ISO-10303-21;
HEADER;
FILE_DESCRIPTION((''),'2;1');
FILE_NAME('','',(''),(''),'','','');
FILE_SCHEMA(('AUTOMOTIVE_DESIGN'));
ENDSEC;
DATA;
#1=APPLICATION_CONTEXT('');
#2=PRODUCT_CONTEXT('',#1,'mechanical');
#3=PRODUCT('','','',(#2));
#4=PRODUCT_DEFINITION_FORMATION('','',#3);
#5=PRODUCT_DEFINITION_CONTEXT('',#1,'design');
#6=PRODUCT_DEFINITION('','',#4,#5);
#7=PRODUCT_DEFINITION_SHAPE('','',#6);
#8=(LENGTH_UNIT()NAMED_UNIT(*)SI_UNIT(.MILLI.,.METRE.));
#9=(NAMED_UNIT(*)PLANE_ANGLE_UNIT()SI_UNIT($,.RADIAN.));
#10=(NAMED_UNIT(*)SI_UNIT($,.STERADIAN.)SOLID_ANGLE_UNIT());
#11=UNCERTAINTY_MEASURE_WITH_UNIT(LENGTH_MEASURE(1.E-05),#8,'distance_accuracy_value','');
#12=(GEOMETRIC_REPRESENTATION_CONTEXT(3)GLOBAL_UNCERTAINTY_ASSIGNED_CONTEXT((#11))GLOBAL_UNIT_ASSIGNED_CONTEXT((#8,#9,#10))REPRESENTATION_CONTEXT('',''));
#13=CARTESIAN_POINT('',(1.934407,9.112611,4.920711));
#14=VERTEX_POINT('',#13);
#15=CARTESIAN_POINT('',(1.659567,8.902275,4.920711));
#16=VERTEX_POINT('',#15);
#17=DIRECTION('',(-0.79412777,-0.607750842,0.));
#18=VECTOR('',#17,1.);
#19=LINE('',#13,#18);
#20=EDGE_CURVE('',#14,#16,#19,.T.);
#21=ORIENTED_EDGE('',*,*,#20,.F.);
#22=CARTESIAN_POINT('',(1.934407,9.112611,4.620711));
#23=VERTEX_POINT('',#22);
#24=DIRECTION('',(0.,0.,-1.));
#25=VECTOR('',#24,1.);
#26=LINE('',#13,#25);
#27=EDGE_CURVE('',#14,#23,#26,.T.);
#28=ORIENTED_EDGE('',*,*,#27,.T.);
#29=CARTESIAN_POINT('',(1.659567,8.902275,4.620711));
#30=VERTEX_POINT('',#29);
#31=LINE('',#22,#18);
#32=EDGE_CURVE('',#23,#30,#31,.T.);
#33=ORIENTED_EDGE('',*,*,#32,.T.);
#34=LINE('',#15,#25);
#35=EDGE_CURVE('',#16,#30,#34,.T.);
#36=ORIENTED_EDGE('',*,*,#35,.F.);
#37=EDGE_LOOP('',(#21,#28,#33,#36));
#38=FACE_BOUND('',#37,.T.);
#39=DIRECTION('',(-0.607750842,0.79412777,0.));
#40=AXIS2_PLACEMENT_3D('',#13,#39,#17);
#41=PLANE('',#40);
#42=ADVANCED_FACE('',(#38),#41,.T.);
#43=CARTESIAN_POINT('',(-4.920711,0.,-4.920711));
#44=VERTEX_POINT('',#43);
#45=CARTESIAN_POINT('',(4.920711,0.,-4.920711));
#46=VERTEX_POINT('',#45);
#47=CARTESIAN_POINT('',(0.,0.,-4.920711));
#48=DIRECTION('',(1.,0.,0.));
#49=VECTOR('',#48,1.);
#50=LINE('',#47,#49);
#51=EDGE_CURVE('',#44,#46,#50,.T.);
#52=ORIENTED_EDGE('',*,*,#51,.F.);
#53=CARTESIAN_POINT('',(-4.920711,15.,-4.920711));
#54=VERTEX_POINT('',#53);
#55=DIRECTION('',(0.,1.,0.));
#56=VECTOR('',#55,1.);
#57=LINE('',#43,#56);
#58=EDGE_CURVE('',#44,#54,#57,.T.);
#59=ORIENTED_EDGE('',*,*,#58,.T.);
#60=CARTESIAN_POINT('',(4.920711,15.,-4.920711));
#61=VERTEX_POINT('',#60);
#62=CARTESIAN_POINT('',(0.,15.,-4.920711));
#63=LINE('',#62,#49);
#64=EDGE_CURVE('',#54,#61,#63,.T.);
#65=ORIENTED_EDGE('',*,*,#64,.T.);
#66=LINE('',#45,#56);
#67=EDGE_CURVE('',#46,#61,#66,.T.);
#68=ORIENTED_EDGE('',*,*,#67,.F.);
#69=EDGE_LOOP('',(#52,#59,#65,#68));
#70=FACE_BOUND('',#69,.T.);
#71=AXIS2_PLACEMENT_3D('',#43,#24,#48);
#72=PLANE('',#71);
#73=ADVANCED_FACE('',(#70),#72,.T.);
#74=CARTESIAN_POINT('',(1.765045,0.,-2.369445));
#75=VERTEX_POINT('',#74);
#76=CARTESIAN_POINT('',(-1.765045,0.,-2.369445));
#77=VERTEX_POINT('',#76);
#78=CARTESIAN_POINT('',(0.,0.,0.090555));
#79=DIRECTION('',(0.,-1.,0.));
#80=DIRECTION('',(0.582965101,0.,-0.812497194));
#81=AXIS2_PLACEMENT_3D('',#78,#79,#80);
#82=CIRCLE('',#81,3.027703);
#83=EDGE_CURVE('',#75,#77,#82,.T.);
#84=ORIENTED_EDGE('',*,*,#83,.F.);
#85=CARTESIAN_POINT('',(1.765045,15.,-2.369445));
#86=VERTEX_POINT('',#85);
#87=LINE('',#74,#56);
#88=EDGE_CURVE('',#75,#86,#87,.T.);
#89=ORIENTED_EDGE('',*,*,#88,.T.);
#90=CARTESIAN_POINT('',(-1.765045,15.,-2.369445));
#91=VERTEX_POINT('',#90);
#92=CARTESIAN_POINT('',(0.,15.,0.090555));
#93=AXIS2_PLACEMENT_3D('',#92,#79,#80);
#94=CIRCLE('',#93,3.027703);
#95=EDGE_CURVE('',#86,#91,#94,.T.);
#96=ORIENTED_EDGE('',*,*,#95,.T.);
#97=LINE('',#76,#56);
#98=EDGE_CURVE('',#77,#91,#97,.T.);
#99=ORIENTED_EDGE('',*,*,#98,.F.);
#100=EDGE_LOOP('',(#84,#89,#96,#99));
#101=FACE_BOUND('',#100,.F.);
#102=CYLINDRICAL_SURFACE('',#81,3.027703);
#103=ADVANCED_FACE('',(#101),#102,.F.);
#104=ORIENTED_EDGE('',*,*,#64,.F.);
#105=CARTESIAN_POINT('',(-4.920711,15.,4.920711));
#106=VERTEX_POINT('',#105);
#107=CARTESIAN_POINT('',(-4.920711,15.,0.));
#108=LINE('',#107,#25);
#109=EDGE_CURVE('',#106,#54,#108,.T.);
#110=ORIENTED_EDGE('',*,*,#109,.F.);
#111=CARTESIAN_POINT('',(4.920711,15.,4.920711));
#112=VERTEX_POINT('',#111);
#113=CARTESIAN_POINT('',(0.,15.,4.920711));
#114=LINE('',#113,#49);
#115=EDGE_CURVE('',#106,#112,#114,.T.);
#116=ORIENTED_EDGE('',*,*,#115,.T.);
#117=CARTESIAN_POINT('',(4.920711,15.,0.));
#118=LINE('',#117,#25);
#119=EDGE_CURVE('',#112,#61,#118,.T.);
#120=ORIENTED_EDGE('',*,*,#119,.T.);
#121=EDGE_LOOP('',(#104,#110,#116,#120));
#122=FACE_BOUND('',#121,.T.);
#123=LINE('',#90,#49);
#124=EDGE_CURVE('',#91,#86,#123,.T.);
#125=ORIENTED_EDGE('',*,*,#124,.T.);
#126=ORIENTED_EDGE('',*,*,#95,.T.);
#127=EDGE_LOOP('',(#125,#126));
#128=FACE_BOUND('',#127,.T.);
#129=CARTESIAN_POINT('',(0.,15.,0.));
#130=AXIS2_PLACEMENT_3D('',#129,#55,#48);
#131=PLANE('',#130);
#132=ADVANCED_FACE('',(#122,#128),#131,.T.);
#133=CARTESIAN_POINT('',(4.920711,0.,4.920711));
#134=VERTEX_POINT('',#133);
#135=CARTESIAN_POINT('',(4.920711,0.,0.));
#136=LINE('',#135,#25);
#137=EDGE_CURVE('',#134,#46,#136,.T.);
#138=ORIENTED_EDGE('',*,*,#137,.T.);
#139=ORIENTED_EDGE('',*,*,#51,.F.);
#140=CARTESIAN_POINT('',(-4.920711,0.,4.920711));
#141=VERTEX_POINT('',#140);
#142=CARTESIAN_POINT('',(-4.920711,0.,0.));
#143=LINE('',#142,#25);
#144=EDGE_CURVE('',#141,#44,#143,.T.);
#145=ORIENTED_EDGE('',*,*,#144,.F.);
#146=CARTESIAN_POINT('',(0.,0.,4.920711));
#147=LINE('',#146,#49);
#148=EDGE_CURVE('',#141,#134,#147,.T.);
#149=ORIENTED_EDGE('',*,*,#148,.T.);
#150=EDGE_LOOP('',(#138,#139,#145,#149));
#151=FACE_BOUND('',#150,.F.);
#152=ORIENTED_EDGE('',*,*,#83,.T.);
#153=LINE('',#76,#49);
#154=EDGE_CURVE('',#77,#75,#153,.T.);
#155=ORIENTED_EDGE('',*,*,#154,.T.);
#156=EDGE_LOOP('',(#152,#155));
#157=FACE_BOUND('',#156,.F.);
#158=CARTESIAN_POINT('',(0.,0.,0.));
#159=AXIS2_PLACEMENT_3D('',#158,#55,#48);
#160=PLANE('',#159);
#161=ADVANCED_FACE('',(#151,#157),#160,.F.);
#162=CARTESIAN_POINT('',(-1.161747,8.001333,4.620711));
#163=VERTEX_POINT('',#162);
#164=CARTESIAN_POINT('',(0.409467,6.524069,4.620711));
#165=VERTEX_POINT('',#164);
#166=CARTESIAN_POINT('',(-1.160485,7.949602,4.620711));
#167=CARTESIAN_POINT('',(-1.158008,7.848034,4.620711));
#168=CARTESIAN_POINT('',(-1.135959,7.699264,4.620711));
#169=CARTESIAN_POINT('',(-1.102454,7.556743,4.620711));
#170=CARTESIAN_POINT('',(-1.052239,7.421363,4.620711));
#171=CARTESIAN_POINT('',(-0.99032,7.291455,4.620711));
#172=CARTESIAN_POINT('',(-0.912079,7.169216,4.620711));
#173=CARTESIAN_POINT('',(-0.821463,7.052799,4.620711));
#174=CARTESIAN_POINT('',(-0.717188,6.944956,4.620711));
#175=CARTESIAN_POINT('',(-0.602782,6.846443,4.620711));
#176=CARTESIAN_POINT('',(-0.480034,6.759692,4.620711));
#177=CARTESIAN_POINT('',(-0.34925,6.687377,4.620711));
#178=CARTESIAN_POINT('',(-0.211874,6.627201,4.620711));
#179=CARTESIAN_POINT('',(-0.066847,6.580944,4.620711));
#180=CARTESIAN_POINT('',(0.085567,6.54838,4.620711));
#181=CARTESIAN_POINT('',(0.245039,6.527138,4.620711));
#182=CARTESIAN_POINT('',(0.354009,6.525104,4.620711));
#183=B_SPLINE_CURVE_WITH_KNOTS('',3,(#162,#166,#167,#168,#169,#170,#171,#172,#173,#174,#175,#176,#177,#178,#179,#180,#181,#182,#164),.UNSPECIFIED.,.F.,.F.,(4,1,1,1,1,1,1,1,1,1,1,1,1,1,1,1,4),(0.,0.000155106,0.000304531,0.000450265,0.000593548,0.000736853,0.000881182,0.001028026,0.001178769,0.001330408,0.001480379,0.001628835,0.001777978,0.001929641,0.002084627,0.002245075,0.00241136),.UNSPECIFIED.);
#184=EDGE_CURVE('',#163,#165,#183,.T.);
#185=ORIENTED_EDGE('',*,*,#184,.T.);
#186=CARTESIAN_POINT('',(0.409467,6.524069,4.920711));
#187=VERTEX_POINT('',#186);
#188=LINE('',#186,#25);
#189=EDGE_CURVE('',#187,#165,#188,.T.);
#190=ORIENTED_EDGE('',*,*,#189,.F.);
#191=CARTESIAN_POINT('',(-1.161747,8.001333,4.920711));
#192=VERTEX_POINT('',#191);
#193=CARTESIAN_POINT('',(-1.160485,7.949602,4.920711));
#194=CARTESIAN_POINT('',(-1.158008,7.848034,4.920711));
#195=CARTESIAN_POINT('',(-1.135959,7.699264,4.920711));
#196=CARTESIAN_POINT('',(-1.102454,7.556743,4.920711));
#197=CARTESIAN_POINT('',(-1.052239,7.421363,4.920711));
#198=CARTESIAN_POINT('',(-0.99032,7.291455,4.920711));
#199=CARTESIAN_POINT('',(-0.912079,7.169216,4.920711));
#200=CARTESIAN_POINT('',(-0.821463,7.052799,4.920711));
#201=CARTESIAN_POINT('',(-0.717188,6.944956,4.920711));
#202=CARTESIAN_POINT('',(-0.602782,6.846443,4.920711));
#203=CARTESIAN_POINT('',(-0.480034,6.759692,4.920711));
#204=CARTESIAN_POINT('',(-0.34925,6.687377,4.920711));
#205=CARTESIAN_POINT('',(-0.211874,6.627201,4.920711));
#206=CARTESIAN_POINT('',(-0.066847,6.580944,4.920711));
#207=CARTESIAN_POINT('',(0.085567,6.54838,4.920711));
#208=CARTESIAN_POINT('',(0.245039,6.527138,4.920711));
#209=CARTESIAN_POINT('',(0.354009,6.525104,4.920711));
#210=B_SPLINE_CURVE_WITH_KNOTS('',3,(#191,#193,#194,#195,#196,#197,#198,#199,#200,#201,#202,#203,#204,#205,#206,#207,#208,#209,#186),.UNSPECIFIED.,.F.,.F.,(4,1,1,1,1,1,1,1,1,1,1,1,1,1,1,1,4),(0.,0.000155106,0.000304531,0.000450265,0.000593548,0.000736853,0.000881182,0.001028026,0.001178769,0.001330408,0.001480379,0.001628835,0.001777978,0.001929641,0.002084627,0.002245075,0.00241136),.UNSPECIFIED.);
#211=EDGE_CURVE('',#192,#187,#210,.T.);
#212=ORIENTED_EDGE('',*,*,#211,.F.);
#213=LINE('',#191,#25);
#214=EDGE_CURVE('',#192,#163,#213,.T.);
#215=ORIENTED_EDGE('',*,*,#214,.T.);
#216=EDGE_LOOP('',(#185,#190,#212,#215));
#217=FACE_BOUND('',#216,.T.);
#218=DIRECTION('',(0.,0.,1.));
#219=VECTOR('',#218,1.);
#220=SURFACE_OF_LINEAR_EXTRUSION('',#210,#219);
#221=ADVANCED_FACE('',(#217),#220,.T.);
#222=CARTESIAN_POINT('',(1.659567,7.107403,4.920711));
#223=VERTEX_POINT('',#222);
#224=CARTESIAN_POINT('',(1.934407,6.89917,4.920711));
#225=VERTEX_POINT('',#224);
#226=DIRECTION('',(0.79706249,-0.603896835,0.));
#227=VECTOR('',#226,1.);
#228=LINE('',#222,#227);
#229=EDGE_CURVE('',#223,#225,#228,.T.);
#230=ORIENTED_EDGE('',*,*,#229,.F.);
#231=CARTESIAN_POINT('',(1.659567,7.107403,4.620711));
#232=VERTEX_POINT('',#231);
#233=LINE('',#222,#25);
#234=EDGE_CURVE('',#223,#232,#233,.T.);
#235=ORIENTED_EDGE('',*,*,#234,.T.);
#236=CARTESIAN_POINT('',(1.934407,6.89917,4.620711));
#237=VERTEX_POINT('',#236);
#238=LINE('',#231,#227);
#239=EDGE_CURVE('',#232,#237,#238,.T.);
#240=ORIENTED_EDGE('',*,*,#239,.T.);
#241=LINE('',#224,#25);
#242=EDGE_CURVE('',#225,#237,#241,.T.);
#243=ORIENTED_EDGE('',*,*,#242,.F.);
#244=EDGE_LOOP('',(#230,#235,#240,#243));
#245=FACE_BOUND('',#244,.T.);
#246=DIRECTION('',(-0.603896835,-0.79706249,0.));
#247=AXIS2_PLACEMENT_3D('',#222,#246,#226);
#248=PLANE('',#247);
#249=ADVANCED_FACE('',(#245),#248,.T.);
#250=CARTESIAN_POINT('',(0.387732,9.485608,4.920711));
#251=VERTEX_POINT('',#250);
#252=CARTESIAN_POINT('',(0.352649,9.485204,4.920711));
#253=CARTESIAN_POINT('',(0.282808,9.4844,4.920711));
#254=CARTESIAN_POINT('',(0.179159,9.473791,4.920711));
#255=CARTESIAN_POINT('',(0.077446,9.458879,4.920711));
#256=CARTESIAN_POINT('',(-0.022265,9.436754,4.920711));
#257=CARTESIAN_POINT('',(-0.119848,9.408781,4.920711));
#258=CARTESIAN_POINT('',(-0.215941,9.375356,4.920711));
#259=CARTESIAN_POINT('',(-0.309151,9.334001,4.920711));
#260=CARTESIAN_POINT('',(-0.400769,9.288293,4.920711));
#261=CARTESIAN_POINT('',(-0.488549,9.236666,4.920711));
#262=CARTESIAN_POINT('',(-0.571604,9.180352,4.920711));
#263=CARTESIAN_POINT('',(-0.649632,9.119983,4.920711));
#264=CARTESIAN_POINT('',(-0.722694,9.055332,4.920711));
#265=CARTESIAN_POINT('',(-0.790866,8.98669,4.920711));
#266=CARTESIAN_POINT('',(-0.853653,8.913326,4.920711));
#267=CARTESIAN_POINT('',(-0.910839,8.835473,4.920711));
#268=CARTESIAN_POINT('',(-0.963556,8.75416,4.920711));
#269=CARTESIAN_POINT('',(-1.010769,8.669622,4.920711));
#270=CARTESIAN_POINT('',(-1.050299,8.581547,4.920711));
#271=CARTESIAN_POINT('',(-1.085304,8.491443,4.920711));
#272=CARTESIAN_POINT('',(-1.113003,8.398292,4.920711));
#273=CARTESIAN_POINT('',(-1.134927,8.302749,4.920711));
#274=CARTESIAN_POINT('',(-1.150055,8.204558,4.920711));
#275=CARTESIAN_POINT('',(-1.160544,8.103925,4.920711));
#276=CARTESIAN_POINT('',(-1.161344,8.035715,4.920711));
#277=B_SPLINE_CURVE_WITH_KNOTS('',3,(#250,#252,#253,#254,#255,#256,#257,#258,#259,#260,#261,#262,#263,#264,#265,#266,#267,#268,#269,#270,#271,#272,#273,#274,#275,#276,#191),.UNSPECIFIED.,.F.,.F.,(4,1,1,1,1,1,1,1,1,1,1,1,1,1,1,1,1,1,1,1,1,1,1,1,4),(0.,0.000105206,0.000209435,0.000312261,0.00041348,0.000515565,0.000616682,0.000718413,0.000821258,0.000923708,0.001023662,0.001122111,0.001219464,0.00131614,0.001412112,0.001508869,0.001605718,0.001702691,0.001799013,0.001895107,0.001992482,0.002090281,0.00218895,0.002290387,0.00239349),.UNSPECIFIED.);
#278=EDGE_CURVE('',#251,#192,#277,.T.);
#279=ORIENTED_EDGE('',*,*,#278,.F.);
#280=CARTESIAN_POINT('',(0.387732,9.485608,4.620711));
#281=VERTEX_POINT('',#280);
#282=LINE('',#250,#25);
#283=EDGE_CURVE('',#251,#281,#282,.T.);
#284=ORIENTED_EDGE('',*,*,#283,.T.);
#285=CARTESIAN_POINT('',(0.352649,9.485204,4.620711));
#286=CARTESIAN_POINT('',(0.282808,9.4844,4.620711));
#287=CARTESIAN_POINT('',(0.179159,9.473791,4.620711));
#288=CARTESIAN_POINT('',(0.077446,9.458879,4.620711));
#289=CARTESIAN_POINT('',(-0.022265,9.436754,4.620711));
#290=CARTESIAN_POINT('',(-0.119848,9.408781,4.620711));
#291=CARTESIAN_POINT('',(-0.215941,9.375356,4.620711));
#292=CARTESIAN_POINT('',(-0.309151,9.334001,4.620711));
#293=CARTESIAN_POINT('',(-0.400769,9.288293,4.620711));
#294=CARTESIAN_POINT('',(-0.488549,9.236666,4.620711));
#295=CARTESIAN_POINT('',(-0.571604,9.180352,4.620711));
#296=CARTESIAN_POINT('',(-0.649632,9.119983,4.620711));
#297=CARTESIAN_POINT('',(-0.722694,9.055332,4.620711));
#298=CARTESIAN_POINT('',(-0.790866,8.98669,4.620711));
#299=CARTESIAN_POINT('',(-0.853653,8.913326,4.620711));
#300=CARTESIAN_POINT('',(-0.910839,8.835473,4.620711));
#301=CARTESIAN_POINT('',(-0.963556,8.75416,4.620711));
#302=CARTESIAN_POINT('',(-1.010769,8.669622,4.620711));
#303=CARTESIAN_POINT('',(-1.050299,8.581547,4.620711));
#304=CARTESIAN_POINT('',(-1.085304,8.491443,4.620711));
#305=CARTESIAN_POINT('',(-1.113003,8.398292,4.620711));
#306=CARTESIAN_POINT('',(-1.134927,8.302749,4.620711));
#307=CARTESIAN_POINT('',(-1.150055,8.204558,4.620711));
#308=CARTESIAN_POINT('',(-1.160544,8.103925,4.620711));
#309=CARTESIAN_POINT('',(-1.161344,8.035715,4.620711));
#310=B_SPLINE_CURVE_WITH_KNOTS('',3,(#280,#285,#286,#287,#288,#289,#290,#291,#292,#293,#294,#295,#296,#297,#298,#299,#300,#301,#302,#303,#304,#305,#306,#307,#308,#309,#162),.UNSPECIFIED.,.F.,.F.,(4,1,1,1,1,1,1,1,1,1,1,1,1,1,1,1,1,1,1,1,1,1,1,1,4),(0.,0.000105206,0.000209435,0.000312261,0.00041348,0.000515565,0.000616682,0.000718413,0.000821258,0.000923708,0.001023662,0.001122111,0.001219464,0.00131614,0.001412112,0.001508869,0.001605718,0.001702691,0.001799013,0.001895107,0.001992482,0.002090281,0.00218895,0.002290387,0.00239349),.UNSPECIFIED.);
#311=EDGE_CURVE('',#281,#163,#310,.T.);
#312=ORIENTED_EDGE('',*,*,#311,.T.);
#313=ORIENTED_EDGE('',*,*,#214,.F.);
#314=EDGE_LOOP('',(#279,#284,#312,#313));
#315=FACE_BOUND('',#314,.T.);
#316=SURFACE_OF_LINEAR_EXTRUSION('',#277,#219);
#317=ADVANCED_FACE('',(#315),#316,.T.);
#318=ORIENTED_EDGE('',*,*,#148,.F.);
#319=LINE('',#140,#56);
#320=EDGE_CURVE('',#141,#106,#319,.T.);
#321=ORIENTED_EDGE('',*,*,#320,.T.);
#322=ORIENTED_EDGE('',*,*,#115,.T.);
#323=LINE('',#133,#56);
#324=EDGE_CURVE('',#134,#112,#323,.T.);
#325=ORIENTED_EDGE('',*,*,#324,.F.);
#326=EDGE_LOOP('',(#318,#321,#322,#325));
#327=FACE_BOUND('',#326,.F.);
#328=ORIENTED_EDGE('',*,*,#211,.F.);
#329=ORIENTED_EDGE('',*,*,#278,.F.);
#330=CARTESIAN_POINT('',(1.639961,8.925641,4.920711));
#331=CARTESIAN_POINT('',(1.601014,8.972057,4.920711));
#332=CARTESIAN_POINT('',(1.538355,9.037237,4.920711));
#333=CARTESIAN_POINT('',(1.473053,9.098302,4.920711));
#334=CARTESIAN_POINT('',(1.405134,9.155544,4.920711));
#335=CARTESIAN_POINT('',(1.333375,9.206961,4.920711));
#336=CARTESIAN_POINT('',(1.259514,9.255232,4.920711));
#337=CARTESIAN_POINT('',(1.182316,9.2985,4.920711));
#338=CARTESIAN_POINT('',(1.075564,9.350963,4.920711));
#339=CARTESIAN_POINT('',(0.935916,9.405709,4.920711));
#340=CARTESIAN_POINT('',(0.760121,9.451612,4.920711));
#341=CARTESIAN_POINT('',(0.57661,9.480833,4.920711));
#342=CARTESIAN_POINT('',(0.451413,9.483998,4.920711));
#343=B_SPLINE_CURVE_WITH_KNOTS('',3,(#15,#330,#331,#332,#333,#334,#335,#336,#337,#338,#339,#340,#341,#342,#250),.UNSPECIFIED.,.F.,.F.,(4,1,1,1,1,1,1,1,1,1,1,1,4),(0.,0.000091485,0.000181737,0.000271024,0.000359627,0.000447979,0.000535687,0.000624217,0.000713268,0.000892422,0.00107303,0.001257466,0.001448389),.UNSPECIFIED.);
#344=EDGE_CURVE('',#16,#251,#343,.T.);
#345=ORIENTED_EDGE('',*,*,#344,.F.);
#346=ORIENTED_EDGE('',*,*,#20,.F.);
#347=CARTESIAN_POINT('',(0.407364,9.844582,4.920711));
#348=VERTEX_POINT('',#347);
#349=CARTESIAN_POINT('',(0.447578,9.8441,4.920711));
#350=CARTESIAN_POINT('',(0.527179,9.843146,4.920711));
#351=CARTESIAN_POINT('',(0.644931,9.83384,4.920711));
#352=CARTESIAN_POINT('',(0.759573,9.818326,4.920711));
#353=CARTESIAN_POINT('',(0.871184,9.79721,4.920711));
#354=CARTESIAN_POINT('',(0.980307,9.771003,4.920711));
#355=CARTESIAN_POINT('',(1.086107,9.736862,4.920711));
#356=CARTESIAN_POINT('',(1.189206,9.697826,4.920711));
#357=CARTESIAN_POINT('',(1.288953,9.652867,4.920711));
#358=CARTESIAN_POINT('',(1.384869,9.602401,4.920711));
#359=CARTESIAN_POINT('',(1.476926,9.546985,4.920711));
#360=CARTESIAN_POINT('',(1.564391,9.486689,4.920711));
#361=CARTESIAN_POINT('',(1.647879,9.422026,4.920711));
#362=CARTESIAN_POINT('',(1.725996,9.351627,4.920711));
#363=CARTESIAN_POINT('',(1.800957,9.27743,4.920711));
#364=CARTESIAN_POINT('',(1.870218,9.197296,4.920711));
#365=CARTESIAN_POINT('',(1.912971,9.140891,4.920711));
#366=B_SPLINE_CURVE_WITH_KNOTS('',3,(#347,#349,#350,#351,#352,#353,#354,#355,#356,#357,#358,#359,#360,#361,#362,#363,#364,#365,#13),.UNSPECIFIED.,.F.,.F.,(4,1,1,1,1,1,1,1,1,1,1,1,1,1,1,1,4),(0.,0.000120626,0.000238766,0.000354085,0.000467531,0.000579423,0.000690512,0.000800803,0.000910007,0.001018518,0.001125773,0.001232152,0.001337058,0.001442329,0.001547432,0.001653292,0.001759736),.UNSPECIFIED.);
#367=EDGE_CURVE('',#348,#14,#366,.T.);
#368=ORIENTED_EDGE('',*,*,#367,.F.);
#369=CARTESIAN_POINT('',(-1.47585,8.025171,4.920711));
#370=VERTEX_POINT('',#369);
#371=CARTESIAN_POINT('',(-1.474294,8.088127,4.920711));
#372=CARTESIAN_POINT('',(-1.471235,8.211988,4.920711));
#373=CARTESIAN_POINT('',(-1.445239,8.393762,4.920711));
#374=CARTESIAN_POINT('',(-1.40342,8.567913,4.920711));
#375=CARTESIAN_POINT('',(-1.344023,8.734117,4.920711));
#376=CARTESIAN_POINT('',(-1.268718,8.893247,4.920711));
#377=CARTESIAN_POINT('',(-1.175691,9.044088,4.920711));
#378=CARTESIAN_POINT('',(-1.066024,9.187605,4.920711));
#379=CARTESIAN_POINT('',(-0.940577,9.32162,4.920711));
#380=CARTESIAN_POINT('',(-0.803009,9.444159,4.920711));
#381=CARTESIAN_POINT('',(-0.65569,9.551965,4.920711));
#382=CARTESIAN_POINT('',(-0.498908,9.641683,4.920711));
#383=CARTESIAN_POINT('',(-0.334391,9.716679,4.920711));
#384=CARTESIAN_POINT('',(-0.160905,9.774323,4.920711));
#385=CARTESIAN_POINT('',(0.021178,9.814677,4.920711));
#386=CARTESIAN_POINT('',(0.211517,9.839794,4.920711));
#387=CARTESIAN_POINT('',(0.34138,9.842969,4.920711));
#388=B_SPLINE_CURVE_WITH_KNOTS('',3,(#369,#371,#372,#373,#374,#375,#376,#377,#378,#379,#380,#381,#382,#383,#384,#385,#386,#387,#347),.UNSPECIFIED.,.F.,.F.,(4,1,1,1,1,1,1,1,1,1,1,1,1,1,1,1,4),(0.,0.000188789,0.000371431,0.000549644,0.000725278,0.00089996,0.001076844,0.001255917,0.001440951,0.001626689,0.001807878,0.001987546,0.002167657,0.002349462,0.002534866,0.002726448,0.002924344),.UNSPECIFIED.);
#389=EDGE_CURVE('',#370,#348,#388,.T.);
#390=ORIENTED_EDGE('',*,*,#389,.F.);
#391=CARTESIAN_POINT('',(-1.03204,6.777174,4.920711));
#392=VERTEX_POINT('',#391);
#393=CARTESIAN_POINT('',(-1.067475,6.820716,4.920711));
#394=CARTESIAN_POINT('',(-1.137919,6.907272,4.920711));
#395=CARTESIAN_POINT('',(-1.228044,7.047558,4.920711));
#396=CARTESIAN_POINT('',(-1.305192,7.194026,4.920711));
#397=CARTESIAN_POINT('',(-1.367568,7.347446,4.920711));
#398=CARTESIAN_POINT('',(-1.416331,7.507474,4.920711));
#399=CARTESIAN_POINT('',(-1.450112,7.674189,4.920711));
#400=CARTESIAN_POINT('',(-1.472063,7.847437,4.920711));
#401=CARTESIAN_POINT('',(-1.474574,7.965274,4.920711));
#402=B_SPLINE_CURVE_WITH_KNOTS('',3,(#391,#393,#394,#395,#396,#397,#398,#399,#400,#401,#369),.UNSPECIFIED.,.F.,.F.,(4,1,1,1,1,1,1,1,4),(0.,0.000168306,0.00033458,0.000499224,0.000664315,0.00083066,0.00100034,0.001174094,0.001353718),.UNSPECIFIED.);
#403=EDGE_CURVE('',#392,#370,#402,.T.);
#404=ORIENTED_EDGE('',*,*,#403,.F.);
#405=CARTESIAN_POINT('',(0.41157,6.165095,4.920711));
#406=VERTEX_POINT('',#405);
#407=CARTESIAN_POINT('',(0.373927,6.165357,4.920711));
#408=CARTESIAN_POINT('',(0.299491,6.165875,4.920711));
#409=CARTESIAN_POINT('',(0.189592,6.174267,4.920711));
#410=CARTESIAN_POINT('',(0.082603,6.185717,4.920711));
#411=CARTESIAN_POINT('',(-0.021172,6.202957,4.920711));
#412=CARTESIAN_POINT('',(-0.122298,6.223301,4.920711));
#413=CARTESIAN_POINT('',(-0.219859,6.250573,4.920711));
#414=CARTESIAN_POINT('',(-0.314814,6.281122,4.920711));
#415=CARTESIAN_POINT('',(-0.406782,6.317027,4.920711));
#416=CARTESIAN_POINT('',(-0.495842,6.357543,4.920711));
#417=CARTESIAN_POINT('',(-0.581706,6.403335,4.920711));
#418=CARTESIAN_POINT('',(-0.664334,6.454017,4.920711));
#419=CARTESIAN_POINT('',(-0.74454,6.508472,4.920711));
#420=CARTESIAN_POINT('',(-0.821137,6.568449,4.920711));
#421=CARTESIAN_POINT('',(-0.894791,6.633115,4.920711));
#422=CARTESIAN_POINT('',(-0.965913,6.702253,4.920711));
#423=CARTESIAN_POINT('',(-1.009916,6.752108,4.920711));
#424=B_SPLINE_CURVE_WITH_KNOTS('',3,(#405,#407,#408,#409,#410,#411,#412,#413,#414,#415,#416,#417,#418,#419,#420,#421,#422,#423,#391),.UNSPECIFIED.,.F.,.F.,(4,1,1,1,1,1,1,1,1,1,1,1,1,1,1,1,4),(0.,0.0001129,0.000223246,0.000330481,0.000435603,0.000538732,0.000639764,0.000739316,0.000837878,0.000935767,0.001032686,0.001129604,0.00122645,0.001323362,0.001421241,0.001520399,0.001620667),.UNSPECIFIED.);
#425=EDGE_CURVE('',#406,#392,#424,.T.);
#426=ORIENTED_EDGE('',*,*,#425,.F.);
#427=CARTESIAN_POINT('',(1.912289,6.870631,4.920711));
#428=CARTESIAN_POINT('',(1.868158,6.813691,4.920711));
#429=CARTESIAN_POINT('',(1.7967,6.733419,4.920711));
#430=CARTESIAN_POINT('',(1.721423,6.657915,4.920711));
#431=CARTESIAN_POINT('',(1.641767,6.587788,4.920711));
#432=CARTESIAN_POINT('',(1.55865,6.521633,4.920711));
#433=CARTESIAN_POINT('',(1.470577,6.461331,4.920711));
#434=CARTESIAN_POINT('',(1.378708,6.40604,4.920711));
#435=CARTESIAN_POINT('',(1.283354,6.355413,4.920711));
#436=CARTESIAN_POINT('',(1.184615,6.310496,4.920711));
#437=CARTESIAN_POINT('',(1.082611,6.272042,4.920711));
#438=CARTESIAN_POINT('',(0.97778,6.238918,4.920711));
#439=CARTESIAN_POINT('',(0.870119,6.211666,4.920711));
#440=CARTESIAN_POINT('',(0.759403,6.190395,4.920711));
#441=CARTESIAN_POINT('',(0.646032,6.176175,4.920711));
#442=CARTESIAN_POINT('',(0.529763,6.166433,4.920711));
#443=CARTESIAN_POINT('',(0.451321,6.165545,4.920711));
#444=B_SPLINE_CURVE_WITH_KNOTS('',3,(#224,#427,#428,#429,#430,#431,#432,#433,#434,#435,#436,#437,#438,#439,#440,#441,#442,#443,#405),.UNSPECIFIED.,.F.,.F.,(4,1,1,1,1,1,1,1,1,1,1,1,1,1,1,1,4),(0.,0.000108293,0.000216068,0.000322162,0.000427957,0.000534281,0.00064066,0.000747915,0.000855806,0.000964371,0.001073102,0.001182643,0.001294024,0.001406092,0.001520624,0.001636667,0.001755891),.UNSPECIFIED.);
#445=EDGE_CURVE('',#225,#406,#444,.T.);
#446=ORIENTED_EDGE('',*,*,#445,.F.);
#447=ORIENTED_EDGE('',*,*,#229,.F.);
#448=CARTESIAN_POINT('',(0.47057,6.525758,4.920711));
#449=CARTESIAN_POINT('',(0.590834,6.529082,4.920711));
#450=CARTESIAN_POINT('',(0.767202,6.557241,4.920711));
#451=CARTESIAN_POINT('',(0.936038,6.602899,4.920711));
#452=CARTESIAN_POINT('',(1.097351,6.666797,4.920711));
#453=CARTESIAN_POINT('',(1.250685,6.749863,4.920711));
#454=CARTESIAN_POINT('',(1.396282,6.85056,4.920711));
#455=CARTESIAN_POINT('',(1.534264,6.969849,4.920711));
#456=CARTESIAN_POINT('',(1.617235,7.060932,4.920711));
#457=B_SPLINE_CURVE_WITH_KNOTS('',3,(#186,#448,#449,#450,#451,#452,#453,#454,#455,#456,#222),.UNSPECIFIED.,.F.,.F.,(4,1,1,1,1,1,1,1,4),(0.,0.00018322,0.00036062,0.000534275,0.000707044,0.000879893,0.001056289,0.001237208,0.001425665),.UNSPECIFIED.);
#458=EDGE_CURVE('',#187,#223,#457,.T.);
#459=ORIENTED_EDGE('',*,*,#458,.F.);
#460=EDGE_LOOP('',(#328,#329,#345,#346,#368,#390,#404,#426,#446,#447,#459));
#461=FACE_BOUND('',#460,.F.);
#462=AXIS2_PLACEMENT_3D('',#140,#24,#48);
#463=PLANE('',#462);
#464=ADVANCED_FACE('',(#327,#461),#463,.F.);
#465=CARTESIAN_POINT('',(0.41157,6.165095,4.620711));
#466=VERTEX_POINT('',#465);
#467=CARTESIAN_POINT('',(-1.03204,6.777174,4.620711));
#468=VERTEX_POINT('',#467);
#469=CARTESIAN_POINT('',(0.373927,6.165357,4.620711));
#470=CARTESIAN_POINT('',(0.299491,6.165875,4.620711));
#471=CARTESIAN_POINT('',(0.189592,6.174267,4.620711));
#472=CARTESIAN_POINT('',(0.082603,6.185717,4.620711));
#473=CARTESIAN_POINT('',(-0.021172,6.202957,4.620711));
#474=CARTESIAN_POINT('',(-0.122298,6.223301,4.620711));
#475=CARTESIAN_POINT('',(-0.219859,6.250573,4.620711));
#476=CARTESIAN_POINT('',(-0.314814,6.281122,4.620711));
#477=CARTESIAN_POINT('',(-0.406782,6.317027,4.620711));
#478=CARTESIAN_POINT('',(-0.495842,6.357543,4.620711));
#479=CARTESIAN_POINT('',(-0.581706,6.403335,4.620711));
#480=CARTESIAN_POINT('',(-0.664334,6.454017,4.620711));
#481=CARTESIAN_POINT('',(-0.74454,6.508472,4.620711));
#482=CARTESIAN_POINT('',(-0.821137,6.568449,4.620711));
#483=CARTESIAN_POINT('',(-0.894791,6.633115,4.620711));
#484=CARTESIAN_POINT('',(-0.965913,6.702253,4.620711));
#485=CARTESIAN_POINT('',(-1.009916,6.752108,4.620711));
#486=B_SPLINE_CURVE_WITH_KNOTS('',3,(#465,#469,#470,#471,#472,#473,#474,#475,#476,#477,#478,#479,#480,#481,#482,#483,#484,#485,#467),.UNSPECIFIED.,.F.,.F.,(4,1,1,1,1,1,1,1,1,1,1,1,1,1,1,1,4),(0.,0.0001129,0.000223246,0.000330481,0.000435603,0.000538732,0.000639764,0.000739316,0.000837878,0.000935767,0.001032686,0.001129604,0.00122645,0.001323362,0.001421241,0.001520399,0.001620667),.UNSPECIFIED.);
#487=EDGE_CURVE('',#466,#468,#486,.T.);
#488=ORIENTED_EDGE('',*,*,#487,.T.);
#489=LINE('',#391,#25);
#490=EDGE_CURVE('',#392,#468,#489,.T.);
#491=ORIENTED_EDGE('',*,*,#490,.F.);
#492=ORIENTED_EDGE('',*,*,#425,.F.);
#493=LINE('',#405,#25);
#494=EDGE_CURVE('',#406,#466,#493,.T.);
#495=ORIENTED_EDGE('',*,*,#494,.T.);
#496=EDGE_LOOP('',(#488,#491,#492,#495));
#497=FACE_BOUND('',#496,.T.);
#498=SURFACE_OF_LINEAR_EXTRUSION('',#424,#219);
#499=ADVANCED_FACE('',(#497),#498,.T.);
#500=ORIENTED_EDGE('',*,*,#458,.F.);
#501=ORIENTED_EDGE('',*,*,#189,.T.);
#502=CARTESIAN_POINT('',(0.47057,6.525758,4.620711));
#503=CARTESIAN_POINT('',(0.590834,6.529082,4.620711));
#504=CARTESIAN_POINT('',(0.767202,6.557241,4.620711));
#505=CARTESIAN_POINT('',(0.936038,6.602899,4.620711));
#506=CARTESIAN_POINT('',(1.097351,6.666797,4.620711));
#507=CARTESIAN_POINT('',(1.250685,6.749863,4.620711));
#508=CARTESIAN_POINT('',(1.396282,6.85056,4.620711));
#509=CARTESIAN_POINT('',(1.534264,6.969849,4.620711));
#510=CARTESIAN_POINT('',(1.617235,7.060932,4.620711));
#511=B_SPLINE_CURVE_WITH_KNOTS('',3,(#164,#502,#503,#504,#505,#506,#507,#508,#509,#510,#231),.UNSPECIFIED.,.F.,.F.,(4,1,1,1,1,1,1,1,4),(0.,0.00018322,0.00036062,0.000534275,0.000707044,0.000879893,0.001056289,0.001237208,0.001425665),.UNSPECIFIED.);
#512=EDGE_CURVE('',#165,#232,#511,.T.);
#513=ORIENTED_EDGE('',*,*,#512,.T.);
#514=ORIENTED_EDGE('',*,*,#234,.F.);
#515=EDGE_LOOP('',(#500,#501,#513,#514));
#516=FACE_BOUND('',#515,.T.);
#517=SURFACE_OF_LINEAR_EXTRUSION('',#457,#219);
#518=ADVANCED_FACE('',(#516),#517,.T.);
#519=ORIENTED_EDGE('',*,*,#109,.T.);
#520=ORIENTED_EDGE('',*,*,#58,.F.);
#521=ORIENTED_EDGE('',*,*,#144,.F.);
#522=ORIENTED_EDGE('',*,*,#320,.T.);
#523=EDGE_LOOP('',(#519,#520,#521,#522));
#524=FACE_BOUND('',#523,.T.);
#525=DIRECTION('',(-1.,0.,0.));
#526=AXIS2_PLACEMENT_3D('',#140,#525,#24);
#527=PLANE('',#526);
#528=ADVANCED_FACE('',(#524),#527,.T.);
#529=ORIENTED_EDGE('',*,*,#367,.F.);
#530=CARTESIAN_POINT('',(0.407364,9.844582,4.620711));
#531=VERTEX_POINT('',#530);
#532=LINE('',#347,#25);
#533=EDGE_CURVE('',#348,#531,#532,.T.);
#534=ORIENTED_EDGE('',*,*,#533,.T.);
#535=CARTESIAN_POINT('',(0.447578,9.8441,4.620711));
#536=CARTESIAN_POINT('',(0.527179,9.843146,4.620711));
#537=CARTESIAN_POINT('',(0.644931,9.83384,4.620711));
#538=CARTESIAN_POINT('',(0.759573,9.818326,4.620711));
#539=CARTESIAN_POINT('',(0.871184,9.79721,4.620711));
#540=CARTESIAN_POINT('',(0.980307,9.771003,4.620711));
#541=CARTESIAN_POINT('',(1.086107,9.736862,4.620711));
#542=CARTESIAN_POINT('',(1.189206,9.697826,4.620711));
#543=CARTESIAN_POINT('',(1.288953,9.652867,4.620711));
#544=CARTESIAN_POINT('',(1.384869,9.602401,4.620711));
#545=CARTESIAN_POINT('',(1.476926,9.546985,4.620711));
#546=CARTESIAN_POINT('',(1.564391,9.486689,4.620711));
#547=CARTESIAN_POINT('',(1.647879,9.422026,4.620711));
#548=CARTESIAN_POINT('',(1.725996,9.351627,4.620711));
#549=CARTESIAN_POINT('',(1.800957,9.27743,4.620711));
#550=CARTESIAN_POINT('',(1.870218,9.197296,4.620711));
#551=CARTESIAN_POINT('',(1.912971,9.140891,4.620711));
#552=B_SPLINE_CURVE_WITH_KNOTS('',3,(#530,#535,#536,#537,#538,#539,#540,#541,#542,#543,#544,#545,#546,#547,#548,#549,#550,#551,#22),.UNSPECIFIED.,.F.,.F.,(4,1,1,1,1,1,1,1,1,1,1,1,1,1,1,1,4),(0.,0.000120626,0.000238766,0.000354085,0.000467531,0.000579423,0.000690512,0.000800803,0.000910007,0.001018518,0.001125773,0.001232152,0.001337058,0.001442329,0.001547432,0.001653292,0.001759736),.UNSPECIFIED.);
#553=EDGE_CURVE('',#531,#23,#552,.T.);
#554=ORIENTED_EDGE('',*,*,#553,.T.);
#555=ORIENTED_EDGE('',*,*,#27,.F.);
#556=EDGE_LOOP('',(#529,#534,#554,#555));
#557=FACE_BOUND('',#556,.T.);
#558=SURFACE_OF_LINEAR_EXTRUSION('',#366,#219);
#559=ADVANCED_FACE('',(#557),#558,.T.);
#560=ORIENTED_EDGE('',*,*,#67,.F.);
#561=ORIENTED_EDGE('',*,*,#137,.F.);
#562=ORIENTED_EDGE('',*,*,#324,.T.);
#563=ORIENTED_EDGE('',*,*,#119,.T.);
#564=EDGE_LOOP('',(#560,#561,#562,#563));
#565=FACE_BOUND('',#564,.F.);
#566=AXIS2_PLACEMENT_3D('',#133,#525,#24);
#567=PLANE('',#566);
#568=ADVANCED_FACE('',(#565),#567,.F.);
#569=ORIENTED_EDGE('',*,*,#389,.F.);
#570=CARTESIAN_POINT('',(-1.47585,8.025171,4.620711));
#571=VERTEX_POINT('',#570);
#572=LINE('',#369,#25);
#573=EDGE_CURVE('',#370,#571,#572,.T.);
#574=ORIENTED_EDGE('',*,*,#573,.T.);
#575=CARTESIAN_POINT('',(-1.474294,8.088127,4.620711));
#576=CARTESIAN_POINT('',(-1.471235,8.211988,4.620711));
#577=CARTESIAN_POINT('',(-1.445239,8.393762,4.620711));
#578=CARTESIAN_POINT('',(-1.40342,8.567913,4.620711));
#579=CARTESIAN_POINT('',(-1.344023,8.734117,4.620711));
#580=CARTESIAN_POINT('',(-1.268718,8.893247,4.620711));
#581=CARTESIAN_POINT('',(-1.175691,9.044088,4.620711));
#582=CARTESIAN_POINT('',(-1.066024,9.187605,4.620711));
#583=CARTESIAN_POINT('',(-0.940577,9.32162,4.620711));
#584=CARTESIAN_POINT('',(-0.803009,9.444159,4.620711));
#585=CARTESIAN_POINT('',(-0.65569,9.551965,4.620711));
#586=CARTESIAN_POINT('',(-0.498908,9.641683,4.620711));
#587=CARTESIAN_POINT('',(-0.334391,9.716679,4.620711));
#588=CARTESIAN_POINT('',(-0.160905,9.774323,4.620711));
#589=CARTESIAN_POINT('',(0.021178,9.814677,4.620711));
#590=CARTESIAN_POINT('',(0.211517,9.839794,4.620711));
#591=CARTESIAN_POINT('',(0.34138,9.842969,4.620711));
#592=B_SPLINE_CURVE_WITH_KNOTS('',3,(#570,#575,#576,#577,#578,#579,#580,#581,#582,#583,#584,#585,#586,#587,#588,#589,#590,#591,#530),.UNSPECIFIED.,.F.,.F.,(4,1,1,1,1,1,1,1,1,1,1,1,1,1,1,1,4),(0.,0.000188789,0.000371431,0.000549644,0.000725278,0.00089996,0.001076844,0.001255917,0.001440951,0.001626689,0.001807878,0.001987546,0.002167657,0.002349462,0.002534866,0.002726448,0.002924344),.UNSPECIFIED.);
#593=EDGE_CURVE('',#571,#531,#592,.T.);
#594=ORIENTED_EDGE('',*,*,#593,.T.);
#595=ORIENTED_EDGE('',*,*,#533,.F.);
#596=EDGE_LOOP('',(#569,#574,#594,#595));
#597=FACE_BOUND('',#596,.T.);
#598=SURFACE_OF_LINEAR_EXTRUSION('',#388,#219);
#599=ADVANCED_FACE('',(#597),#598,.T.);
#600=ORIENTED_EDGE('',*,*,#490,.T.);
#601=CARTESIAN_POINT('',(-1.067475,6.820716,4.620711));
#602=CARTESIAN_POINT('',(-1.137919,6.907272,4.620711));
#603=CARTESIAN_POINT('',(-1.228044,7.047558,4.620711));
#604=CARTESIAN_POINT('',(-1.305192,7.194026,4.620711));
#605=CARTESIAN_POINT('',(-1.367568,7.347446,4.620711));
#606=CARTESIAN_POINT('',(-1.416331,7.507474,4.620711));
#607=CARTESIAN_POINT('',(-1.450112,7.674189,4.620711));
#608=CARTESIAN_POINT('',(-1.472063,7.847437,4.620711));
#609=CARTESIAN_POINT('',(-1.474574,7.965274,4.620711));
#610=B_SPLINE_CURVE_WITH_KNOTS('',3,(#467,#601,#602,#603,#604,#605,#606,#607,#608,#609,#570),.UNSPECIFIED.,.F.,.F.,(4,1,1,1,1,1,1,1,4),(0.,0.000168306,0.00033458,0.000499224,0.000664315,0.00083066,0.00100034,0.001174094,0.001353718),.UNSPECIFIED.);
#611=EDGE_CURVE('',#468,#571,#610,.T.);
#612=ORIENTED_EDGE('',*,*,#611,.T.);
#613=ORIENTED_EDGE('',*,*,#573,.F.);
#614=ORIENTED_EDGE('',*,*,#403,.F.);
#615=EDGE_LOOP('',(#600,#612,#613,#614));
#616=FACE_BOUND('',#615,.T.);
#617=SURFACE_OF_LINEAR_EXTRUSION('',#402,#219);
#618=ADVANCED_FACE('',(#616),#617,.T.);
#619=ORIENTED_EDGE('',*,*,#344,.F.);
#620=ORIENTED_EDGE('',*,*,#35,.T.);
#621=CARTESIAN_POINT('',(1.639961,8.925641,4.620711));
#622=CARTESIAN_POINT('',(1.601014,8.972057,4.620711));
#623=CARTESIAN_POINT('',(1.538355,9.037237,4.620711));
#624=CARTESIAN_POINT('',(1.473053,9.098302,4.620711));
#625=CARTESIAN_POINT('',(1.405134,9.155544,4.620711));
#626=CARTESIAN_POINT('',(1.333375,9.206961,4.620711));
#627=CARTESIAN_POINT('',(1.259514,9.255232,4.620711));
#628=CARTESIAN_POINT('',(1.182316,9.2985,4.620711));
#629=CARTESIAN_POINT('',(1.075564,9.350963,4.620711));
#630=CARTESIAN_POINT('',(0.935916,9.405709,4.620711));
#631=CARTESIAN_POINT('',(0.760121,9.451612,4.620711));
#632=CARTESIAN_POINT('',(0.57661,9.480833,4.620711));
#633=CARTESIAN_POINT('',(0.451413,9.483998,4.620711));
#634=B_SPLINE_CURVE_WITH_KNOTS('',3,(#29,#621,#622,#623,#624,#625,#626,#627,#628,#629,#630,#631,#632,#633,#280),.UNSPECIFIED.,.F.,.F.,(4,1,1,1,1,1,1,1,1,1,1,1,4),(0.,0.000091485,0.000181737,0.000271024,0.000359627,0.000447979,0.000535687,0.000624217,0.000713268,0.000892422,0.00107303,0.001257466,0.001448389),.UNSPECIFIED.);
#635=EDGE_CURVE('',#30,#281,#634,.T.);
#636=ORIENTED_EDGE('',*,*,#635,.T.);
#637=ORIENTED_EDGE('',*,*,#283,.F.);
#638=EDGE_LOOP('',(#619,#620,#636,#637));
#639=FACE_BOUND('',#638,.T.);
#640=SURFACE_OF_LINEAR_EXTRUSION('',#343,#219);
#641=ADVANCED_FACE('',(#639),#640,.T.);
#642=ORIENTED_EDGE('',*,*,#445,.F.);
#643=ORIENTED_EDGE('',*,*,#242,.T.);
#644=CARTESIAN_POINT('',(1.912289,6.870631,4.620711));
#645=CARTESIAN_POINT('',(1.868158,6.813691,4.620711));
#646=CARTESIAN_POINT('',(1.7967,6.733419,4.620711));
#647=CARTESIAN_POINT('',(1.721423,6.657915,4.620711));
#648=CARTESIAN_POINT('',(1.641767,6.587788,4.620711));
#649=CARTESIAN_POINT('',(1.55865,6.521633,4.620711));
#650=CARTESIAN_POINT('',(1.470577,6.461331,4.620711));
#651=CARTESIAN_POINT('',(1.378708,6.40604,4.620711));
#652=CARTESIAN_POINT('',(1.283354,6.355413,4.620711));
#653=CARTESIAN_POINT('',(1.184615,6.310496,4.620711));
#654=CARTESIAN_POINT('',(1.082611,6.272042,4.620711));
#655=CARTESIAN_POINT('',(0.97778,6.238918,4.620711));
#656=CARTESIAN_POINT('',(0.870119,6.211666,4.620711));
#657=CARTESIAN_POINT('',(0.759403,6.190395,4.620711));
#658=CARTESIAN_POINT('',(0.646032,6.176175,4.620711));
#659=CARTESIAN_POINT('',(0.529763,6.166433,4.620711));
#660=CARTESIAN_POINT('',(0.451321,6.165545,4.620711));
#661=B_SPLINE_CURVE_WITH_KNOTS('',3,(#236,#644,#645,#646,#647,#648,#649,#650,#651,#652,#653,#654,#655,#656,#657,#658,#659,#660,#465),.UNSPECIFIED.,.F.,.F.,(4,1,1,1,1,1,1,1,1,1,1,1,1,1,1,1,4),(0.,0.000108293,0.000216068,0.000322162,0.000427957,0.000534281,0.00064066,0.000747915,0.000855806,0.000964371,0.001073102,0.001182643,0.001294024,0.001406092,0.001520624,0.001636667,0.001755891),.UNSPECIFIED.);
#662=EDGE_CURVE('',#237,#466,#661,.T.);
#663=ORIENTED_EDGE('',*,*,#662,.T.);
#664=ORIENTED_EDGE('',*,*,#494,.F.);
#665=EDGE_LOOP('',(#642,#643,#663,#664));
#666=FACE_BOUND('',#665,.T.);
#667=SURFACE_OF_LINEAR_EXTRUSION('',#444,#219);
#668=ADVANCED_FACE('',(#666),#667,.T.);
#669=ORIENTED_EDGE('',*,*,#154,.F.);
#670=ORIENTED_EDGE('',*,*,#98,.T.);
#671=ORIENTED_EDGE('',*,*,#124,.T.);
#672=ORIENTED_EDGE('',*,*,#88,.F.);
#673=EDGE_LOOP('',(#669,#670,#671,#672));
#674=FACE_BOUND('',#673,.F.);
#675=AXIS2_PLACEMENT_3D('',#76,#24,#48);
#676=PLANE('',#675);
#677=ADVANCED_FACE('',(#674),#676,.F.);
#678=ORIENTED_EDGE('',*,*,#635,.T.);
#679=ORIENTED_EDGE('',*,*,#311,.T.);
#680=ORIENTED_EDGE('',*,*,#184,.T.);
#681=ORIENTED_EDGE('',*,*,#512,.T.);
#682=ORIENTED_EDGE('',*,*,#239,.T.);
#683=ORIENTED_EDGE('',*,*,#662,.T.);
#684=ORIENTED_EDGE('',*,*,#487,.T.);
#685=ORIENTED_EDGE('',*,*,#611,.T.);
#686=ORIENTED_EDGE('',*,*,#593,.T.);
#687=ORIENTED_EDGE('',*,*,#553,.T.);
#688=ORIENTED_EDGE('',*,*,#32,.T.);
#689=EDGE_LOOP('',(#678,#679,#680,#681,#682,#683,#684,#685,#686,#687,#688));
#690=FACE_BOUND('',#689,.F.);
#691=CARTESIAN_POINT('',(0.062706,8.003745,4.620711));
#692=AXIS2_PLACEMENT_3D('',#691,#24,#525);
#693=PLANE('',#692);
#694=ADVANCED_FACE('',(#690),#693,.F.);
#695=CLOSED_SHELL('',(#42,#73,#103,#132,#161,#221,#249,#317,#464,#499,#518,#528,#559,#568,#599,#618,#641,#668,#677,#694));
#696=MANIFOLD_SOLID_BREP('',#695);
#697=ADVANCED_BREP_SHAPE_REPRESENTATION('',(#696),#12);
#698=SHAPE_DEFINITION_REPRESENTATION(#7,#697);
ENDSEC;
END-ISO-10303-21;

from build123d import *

# Parameters (mm, degrees)
SKETCH1_W           = 9.84142284
SKETCH1_H           = 9.84142284
BOSS_EXTRUDE1_DEPTH = 15
CUT_EXTRUDE1_DEPTH  = 0.3


with BuildPart() as part:
    # Sketch1 → Boss-Extrude1 (new body)
    with BuildSketch(Plane(origin=(0, 0, 0), x_dir=(1, 0, 0), z_dir=(0, 1, 0))):
        Rectangle(SKETCH1_W, SKETCH1_H)
        with BuildLine():
            Line((-1.765045048, 2.369444822), (1.765045048, 2.369444822))
            ThreePointArc((1.765045048, 2.369444822), (0, -3.118257941), (-1.765045048, 2.369444822))
        make_face(mode=Mode.SUBTRACT)
    extrude(amount=BOSS_EXTRUDE1_DEPTH)

    # Sketch2 → Cut-Extrude1 (cut)
    with BuildSketch(Plane.XY.offset(4.92071142)):
        with BuildLine():
            Line((1.934406803, 9.11261109), (1.659567059, 8.902274552))
            add(Edge.make_bspline(
                [(1.659567059, 8.902274552), (1.639961171, 8.925640522), (1.601013724, 8.972057437), (1.538354521, 9.037236982), (1.473052878, 9.098302243), (1.405133757, 9.155544123), (1.333374638, 9.206960889), (1.259513839, 9.255231992), (1.182315794, 9.29849973), (1.075564059, 9.350962716), (0.935916211, 9.405708871), (0.760121372, 9.451612102), (0.576610273, 9.480833278), (0.451412674, 9.483998119), (0.387732123, 9.485607885)],
                knots=[0, 0, 0, 0, 9.1485e-05, 0.000181737, 0.000271024, 0.000359627, 0.000447979, 0.000535687, 0.000624217, 0.000713268, 0.000892422, 0.00107303, 0.001257466, 0.001448389, 0.001448389, 0.001448389, 0.001448389], degree=3))
            add(Edge.make_bspline(
                [(0.387732123, 9.485607885), (0.352648824, 9.485203923), (0.282807831, 9.484399747), (0.179159358, 9.473790622), (0.077446307, 9.458879412), (-0.02226516, 9.436754088), (-0.119848118, 9.408781469), (-0.21594052, 9.375356055), (-0.30915112, 9.334001215), (-0.400769358, 9.288292956), (-0.488548569, 9.236665511), (-0.571603617, 9.180352159), (-0.649631585, 9.119983062), (-0.722694197, 9.055331956), (-0.790866145, 8.986689996), (-0.853653456, 8.913325654), (-0.910838867, 8.83547348), (-0.963555892, 8.754160073), (-1.010768625, 8.669622281), (-1.050298504, 8.581547211), (-1.085303627, 8.491443108), (-1.113002869, 8.398291947), (-1.134927386, 8.302749181), (-1.150055049, 8.204558393), (-1.160543521, 8.103924714), (-1.161343697, 8.035715401), (-1.161747044, 8.001333045)],
                knots=[0, 0, 0, 0, 0.000105206, 0.000209435, 0.000312261, 0.00041348, 0.000515565, 0.000616682, 0.000718413, 0.000821258, 0.000923708, 0.001023662, 0.001122111, 0.001219464, 0.00131614, 0.001412112, 0.001508869, 0.001605718, 0.001702691, 0.001799013, 0.001895107, 0.001992482, 0.002090281, 0.00218895, 0.002290387, 0.00239349, 0.00239349, 0.00239349, 0.00239349], degree=3))
            add(Edge.make_bspline(
                [(-1.161747044, 8.001333045), (-1.160485225, 7.949601726), (-1.15800781, 7.848034141), (-1.135959476, 7.69926353), (-1.102454385, 7.556742856), (-1.052238808, 7.421363014), (-0.990319757, 7.291454656), (-0.912079146, 7.169215803), (-0.821462609, 7.052799238), (-0.717188189, 6.94495629), (-0.602782373, 6.846442565), (-0.480034462, 6.759691983), (-0.349250174, 6.687377101), (-0.211873544, 6.627201155), (-0.06684743, 6.580944427), (0.085567373, 6.548380303), (0.245039368, 6.527138123), (0.354008768, 6.525104435), (0.409466899, 6.524069424)],
                knots=[0, 0, 0, 0, 0.000155106, 0.000304531, 0.000450265, 0.000593548, 0.000736853, 0.000881182, 0.001028026, 0.001178769, 0.001330408, 0.001480379, 0.001628835, 0.001777978, 0.001929641, 0.002084627, 0.002245075, 0.00241136, 0.00241136, 0.00241136, 0.00241136], degree=3))
            add(Edge.make_bspline(
                [(0.409466899, 6.524069424), (0.470569588, 6.525758203), (0.590834297, 6.529082126), (0.767202323, 6.557241375), (0.936038089, 6.602899293), (1.097350675, 6.666797215), (1.250685321, 6.749862503), (1.396281982, 6.850560381), (1.534263552, 6.969848713), (1.617234834, 7.060931842), (1.659567059, 7.107402757)],
                knots=[0, 0, 0, 0, 0.00018322, 0.00036062, 0.000534275, 0.000707044, 0.000879893, 0.001056289, 0.001237208, 0.001425665, 0.001425665, 0.001425665, 0.001425665], degree=3))
            Line((1.659567059, 7.107402757), (1.934406803, 6.899169584))
            add(Edge.make_bspline(
                [(1.934406803, 6.899169584), (1.912288693, 6.870631132), (1.868158417, 6.813690926), (1.7967004, 6.733419216), (1.721423103, 6.65791518), (1.641767393, 6.587787559), (1.558649601, 6.521633094), (1.470577289, 6.461331262), (1.378708257, 6.406040378), (1.283353778, 6.355413454), (1.184615165, 6.310496207), (1.08261073, 6.272042439), (0.977780154, 6.238917549), (0.870118646, 6.211665612), (0.759402889, 6.190394529), (0.646032415, 6.176174854), (0.52976254, 6.166432939), (0.451321119, 6.165545024), (0.411570264, 6.165095065)],
                knots=[0, 0, 0, 0, 0.000108293, 0.000216068, 0.000322162, 0.000427957, 0.000534281, 0.00064066, 0.000747915, 0.000855806, 0.000964371, 0.001073102, 0.001182643, 0.001294024, 0.001406092, 0.001520624, 0.001636667, 0.001755891, 0.001755891, 0.001755891, 0.001755891], degree=3))
            add(Edge.make_bspline(
                [(0.411570264, 6.165095065), (0.373926597, 6.165357057), (0.299490907, 6.165875115), (0.189592155, 6.174267282), (0.082602575, 6.185717019), (-0.021172051, 6.20295715), (-0.122298026, 6.22330149), (-0.219858611, 6.250572747), (-0.314813821, 6.281121914), (-0.406782162, 6.3170269), (-0.495841862, 6.357543083), (-0.581705673, 6.403334642), (-0.664334105, 6.454016507), (-0.744539526, 6.508471517), (-0.82113711, 6.568448819), (-0.894790635, 6.633115453), (-0.965913112, 6.702253464), (-1.009915797, 6.752108317), (-1.032039512, 6.777174392)],
                knots=[0, 0, 0, 0, 0.0001129, 0.000223246, 0.000330481, 0.000435603, 0.000538732, 0.000639764, 0.000739316, 0.000837878, 0.000935767, 0.001032686, 0.001129604, 0.00122645, 0.001323362, 0.001421241, 0.001520399, 0.001620667, 0.001620667, 0.001620667, 0.001620667], degree=3))
            add(Edge.make_bspline(
                [(-1.032039512, 6.777174392), (-1.067475155, 6.82071558), (-1.137918632, 6.907272291), (-1.228044315, 7.047558272), (-1.305191871, 7.194026481), (-1.367567791, 7.34744641), (-1.416330525, 7.507473797), (-1.45011172, 7.674189311), (-1.472063324, 7.847437254), (-1.474573613, 7.965274042), (-1.475849608, 8.025171186)],
                knots=[0, 0, 0, 0, 0.000168306, 0.00033458, 0.000499224, 0.000664315, 0.00083066, 0.00100034, 0.001174094, 0.001353718, 0.001353718, 0.001353718, 0.001353718], degree=3))
            add(Edge.make_bspline(
                [(-1.475849608, 8.025171186), (-1.474294414, 8.08812664), (-1.471234668, 8.211987565), (-1.445238872, 8.393761518), (-1.403420076, 8.567912917), (-1.344023188, 8.734116661), (-1.268717836, 8.893246942), (-1.175691223, 9.044088146), (-1.06602408, 9.187604946), (-0.940576513, 9.321619697), (-0.803009177, 9.44415905), (-0.655690363, 9.551965254), (-0.498908416, 9.64168277), (-0.334390565, 9.716678932), (-0.160904883, 9.774323395), (0.021178486, 9.814676582), (0.211517401, 9.839793698), (0.341379826, 9.842968906), (0.407363533, 9.844582244)],
                knots=[0, 0, 0, 0, 0.000188789, 0.000371431, 0.000549644, 0.000725278, 0.00089996, 0.001076844, 0.001255917, 0.001440951, 0.001626689, 0.001807878, 0.001987546, 0.002167657, 0.002349462, 0.002534866, 0.002726448, 0.002924344, 0.002924344, 0.002924344, 0.002924344], degree=3))
            add(Edge.make_bspline(
                [(0.407363533, 9.844582244), (0.447578005, 9.844100106), (0.527178503, 9.843145762), (0.644931155, 9.83383962), (0.759573482, 9.818326014), (0.871184464, 9.797209944), (0.98030708, 9.771002622), (1.086107321, 9.736862324), (1.189206008, 9.697825793), (1.288952916, 9.652867327), (1.384869466, 9.602400585), (1.476925785, 9.546984962), (1.564390643, 9.486689156), (1.647879492, 9.422025981), (1.725995703, 9.351627422), (1.800957181, 9.277429826), (1.87021826, 9.197296001), (1.912971455, 9.140891068), (1.934406803, 9.11261109)],
                knots=[0, 0, 0, 0, 0.000120626, 0.000238766, 0.000354085, 0.000467531, 0.000579423, 0.000690512, 0.000800803, 0.000910007, 0.001018518, 0.001125773, 0.001232152, 0.001337058, 0.001442329, 0.001547432, 0.001653292, 0.001759736, 0.001759736, 0.001759736, 0.001759736], degree=3))
        make_face()
    extrude(amount=-CUT_EXTRUDE1_DEPTH, mode=Mode.SUBTRACT)


solid = part.part
